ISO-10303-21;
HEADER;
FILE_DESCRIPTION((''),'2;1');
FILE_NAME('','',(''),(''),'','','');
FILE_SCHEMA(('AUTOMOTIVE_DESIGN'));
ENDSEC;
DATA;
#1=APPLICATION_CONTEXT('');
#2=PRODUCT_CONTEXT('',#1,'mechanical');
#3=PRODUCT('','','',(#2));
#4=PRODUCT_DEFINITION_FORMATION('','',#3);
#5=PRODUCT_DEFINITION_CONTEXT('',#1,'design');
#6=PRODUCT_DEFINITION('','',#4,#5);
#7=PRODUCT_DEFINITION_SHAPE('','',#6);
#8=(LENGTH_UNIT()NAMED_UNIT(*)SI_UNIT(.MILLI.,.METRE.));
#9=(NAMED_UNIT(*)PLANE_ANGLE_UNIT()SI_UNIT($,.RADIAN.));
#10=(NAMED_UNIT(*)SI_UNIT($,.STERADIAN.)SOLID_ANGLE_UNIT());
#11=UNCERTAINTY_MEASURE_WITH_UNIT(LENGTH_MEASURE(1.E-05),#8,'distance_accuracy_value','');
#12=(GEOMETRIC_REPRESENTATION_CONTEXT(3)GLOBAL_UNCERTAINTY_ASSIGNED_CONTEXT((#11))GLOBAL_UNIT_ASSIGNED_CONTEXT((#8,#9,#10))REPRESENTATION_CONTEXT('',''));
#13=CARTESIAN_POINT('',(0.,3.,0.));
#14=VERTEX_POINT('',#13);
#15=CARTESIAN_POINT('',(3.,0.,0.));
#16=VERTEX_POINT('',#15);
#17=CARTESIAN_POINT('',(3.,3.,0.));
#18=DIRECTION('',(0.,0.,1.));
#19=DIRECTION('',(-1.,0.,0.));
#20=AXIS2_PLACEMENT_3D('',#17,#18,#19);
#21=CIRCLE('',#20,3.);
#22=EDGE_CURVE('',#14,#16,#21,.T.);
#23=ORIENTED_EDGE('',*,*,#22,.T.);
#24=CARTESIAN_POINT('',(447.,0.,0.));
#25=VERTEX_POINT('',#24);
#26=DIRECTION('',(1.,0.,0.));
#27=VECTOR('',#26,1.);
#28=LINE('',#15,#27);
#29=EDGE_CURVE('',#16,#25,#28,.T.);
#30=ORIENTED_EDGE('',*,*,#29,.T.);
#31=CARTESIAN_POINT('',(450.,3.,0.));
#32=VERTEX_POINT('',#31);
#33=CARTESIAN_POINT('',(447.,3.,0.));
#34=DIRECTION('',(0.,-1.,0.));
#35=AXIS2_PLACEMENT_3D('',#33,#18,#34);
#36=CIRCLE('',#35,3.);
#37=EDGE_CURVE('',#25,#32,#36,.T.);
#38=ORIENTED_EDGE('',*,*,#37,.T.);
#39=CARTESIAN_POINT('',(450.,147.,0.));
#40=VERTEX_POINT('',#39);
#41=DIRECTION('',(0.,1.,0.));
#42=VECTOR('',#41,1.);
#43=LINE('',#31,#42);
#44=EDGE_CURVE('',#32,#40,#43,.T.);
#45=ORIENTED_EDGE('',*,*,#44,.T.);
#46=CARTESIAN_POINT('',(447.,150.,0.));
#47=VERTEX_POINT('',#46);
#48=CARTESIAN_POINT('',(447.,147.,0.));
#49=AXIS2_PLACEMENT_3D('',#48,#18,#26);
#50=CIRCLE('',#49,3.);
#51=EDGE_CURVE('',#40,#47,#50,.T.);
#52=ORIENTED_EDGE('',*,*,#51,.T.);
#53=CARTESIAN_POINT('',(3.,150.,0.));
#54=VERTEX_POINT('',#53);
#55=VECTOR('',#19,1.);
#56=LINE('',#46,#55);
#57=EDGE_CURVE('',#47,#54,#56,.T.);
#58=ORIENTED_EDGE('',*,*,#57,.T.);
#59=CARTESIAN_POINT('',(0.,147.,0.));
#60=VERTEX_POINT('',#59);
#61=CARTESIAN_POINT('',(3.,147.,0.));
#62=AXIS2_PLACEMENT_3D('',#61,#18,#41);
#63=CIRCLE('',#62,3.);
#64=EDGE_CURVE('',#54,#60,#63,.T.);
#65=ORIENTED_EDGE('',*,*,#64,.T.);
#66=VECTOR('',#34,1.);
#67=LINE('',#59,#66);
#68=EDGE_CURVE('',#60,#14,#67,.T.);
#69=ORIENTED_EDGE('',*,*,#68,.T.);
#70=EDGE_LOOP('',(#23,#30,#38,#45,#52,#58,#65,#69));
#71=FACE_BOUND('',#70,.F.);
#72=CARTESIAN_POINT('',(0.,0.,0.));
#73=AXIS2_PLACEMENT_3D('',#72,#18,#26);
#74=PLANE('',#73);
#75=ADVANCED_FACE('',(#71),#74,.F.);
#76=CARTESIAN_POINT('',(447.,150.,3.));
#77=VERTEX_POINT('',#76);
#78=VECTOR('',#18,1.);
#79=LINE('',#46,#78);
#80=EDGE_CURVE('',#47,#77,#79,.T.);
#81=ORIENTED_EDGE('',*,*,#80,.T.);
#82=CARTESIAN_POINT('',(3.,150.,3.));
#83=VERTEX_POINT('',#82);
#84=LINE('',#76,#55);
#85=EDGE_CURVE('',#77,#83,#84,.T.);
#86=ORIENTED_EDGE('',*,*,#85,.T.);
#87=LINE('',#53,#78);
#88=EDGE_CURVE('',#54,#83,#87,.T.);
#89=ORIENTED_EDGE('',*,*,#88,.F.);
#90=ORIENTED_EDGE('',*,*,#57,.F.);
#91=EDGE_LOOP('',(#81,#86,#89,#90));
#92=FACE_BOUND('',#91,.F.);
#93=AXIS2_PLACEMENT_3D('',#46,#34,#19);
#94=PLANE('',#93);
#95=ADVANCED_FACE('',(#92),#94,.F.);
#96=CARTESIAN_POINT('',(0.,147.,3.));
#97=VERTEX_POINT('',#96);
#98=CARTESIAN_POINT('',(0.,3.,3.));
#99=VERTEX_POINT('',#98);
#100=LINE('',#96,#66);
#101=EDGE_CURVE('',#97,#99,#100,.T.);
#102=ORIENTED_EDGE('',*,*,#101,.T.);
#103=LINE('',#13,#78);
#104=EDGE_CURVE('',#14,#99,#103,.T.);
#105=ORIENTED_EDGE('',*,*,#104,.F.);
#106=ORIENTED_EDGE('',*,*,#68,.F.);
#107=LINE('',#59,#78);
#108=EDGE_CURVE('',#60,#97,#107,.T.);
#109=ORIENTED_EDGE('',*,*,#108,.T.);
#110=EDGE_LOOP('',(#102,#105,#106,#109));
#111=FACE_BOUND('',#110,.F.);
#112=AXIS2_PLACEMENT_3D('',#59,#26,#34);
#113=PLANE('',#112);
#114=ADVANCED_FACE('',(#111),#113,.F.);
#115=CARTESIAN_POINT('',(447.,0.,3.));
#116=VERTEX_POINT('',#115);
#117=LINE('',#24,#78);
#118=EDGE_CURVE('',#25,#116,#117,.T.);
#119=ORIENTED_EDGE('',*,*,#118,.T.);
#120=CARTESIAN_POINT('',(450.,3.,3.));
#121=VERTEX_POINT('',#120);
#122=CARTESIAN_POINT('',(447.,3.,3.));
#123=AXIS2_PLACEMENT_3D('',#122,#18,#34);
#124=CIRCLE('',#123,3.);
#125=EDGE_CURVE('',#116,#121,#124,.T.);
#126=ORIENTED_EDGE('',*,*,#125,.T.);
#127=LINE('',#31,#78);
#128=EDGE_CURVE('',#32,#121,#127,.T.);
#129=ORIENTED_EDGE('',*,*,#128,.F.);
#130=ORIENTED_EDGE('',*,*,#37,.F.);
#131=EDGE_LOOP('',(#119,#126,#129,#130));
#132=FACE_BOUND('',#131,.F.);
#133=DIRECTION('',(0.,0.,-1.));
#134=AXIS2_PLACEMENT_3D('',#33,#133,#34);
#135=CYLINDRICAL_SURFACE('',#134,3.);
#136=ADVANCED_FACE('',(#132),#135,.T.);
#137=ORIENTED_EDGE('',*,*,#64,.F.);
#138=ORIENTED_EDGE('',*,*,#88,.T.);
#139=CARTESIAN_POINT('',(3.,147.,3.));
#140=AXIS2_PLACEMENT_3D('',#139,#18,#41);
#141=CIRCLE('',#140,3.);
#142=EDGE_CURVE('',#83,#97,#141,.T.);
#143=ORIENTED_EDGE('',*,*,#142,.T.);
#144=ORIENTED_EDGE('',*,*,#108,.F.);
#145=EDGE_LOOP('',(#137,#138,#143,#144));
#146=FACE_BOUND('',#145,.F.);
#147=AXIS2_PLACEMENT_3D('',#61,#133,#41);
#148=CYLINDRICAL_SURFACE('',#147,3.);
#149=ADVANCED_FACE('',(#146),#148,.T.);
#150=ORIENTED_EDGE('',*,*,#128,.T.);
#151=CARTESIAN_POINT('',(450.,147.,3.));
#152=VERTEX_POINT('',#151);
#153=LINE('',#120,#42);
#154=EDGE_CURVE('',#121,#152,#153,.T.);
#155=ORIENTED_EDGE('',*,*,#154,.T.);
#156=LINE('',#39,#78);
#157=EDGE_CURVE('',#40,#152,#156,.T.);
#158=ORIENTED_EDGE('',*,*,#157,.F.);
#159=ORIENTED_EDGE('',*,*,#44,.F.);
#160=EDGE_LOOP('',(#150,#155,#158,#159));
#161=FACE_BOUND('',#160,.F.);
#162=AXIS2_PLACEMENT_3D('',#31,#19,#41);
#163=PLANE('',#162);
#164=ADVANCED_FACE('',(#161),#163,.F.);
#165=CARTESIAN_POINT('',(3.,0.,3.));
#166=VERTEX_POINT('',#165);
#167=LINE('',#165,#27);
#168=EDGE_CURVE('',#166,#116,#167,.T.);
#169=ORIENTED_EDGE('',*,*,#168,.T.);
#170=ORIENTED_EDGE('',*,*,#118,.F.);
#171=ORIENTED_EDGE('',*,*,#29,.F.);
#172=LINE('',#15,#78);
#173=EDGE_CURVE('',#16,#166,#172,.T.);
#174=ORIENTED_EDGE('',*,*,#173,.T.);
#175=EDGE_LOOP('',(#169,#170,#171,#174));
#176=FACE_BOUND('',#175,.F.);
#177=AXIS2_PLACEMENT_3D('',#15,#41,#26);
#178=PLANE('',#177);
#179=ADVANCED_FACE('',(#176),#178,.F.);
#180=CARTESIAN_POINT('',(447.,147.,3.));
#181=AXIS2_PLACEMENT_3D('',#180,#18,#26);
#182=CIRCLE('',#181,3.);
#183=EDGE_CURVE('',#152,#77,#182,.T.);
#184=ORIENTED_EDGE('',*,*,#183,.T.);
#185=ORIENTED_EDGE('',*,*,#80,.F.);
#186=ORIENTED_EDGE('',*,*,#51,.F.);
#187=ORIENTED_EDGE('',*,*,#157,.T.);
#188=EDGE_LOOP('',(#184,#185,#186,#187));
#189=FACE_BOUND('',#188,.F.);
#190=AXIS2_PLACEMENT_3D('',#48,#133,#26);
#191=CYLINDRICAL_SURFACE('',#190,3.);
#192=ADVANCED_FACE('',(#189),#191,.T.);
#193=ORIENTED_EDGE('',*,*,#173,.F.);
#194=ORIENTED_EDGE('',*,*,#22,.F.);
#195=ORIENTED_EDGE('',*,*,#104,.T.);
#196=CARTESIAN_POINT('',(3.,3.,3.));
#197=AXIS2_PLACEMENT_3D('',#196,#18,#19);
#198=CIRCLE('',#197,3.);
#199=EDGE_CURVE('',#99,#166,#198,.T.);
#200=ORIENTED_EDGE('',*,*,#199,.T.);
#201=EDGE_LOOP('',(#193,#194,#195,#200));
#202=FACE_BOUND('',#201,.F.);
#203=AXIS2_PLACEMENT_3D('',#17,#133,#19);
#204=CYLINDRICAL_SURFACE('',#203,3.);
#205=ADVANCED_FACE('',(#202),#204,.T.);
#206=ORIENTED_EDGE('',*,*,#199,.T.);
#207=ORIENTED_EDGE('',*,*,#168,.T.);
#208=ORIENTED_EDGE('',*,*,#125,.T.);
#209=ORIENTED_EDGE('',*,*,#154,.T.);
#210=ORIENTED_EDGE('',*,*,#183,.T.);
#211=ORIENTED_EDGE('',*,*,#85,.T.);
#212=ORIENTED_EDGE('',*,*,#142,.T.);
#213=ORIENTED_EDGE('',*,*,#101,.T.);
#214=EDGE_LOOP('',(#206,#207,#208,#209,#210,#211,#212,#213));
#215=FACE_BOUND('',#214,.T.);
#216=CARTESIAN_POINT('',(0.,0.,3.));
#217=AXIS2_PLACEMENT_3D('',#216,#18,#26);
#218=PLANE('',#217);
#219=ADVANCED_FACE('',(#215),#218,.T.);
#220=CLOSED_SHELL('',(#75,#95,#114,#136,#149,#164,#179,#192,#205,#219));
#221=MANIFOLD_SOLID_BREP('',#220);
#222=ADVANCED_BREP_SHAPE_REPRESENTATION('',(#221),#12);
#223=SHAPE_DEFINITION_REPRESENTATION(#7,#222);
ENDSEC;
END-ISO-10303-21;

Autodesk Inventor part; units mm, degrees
ref_plane "YZ Plane" through (0, 0, 0) normal (1, 0, 0) x (0, 1, 0)
ref_plane "XZ Plane" through (0, 0, 0) normal (0, 1, 0) x (-1, 0, 0)
ref_plane "XY Plane" through (0, 0, 0) normal (0, 0, 1) x (1, 0, 0)
sketch "Sketch1" plane through (0, 0, 0) normal (0, 0, 1) x (1, 0, 0)
  line L0 (3, 0) -> (447, 0)
  line L1 (450, 3) -> (450, 147)
  line L2 (447, 150) -> (3, 150)
  line L3 (0, 147) -> (0, 3)
  arc A0 (3, 150) -> (0, 147) centre (3, 147) ccw
  arc A1 (450, 147) -> (447, 150) centre (447, 147) ccw
  arc A2 (447, 0) -> (450, 3) centre (447, 3) ccw
  arc A3 (0, 3) -> (3, 0) centre (3, 3) ccw
  point P0 (0, 0)
  point P1 (0, 150)
  point P2 (450, 150)
  point P3 (450, 0)
  point P4 (0, 0)
  dimension "d0" = 450
  dimension "d1" = 150
  dimension "d6" = 3
extrude "Extrusion1" add sketch "Sketch1" along normal blind 3
sketch "Sketch2" plane through (0, 0, 3) normal (0, 0, 1) x (1, 0, 0)
  circle A0 centre (74.3304, 73.386) radius 64.4941
  circle A1 centre (74.1358, 19.1374) radius 3.759
  circle A2 centre (74.3304, 73.386) radius 46.1652
  arc A3 (60.0832, 47.8007) -> (66.8292, 50.9644) centre (63.3353, 49.6403) ccw
  arc A4 (102.5659, 60.1821) -> (99.6639, 66.6182) centre (100.186, 62.9813) ccw
  arc A5 (80.1151, 97.5331) -> (86.506, 100.628) centre (82.7963, 100.1425) ccw
  arc A6 (44.8092, 88.9664) -> (47.8294, 82.593) centre (47.2318, 86.2121) ccw
  line L0 (73.0471, 70.515) -> (72.9845, 77.892)
  line L1 (72.9845, 77.892) -> (69.4651, 77.9045)
  line L2 (69.4651, 77.9045) -> (69.5403, 70.4023)
  line L3 (69.5403, 70.4023) -> (62.2134, 70.4148)
  line L4 (62.2134, 70.4148) -> (62.2385, 67.2712)
  line L5 (62.2385, 67.2712) -> (84.0562, 67.2712)
  line L6 (84.0562, 67.2712) -> (84.0562, 70.3898)
  line L7 (84.0562, 70.3898) -> (73.0471, 70.515)
  line L8 (81.7131, 85.3553) -> (64.4794, 85.3954)
  line L9 (64.4794, 85.3954) -> (64.4794, 82.4296)
  line L10 (64.4794, 82.4296) -> (77.8656, 82.4096)
  arc A7 (80.1926, 72.9483) -> (81.7131, 85.3553) centre (16.1968, 87.088) ccw
  arc A8 (76.6977, 73.1086) -> (77.8656, 82.4096) centre (28.8399, 83.8415) ccw
  line L11 (76.6977, 73.1086) -> (80.1926, 72.9483)
  line L12 (22.8218, 44.3119) -> (29.3747, 47.7587)
  line L13 (29.3747, 47.7587) -> (28.6132, 49.3017)
  line L14 (28.6132, 49.3017) -> (25.0462, 47.5182)
  line L15 (25.0462, 47.5182) -> (27.6313, 51.3056)
  line L16 (27.6313, 51.3056) -> (26.8297, 52.8286)
  line L17 (26.8297, 52.8286) -> (20.1165, 49.4821)
  line L18 (20.1165, 49.4821) -> (20.9582, 47.8188)
  line L19 (20.9582, 47.8188) -> (24.3248, 49.5221)
  line L20 (24.3248, 49.5221) -> (21.9, 45.895)
  line L21 (21.9, 45.895) -> (22.8218, 44.3119)
  arc A9 (20.5574, 56.2553) -> (21.4191, 53.8706) centre (21.1012, 55.1038) ccw
  arc A10 (23.0824, 54.552) -> (22.2407, 56.7763) centre (22.685, 55.673) ccw
  arc A11 (21.4191, 53.8706) -> (23.0824, 54.552) centre (20.078, 59.5153) ccw
  arc A12 (24.3636, 53.0797) -> (21.518, 58.5304) centre (22.6001, 55.6272) ccw
  arc A13 (22.1192, 52.1379) -> (24.3636, 53.0797) centre (20.1363, 60.0082) ccw
  line L22 (19.9149, 57.9493) -> (20.5574, 56.2553)
  line L23 (21.518, 58.5304) -> (22.2407, 56.7763)
  line L24 (15.5802, 64.2799) -> (16.032, 62.5112)
  line L25 (16.032, 62.5112) -> (18.4166, 62.9721)
  line L26 (18.4166, 62.9721) -> (18.9176, 61.0684)
  line L27 (18.9176, 61.0684) -> (16.4127, 60.6075)
  line L28 (16.4127, 60.6075) -> (16.8536, 58.7639)
  line L29 (16.8536, 58.7639) -> (24.0877, 60.2668)
  line L30 (24.0877, 60.2668) -> (23.727, 62.0503)
  line L31 (23.727, 62.0503) -> (20.6811, 61.4892)
  line L32 (20.6811, 61.4892) -> (20.3604, 63.3729)
  line L33 (20.3604, 63.3729) -> (23.2661, 64.0342)
  line L34 (23.2661, 64.0342) -> (22.8854, 65.8177)
  line L35 (22.8854, 65.8177) -> (15.5802, 64.2799)
  line L36 (14.9282, 71.5177) -> (15.4291, 66.3877)
  line L37 (15.4291, 66.3877) -> (22.8036, 66.9087)
  line L38 (22.8036, 66.9087) -> (22.3627, 72.3593)
  line L39 (22.3627, 72.3593) -> (20.5191, 72.2191)
  line L40 (20.5191, 72.2191) -> (20.8397, 68.6721)
  line L41 (20.8397, 68.6721) -> (19.6374, 68.632)
  line L42 (19.6374, 68.632) -> (19.4169, 71.5979)
  line L43 (19.4169, 71.5979) -> (17.6334, 71.4776)
  line L44 (17.6334, 71.4776) -> (17.8739, 68.4717)
  line L45 (17.8739, 68.4717) -> (16.9922, 68.4317)
  line L46 (16.9922, 68.4317) -> (16.6716, 71.678)
  line L47 (16.6716, 71.678) -> (14.9282, 71.5177)
  ellipse E0 centre (18.7456, 76.2269) end of major axis (16.6515, 76.3071) minor radius 1.427
  ellipse E1 centre (18.7256, 76.1868) end of major axis (14.828, 76.3872) minor radius 3.5212
  line L48 (15.4067, 81.6515) -> (15.7474, 83.3549)
  line L49 (15.7474, 83.3549) -> (19.8153, 84.6975)
  line L50 (19.8153, 84.6975) -> (16.088, 85.4389)
  line L51 (16.088, 85.4389) -> (16.2884, 87.1623)
  line L52 (16.2884, 87.1623) -> (23.7029, 85.8598)
  line L53 (23.7029, 85.8598) -> (23.5025, 84.2566)
  line L54 (23.5025, 84.2566) -> (19.0338, 82.8138)
  line L55 (19.0338, 82.8138) -> (23.0216, 82.0723)
  line L56 (23.0216, 82.0723) -> (22.7811, 80.2488)
  line L57 (22.7811, 80.2488) -> (15.4067, 81.6515)
  line L58 (19.7752, 97.1418) -> (17.8715, 92.2723)
  line L59 (17.8715, 92.2723) -> (24.745, 89.7073)
  line L60 (24.745, 89.7073) -> (26.6487, 94.6169)
  line L61 (26.6487, 94.6169) -> (25.1658, 95.2581)
  line L62 (25.1658, 95.2581) -> (23.9434, 92.0719)
  line L63 (23.9434, 92.0719) -> (22.6609, 92.5529)
  line L64 (22.6609, 92.5529) -> (23.743, 95.3183)
  line L65 (23.743, 95.3183) -> (22.1599, 95.9395)
  line L66 (22.1599, 95.9395) -> (21.0778, 93.0939)
  line L67 (21.0778, 93.0939) -> (20.0758, 93.4747)
  line L68 (20.0758, 93.4747) -> (21.2782, 96.5206)
  line L69 (21.2782, 96.5206) -> (19.7752, 97.1418)
  line L70 (21.3984, 100.3882) -> (20.3764, 98.765)
  line L71 (20.3764, 98.765) -> (27.0094, 95.3383)
  line L72 (27.0094, 95.3383) -> (29.3339, 99.9273)
  line L73 (29.3339, 99.9273) -> (27.7909, 100.6888)
  line L74 (27.7909, 100.6888) -> (26.3681, 97.8833)
  line L75 (26.3681, 97.8833) -> (21.3984, 100.3882)
  line L76 (29.7347, 100.3882) -> (32.7206, 104.917)
  line L77 (32.7206, 104.917) -> (31.2577, 105.9591)
  line L78 (31.2577, 105.9591) -> (29.2939, 103.0334)
  line L79 (29.2939, 103.0334) -> (28.2518, 103.6746)
  line L80 (28.2518, 103.6746) -> (29.9752, 106.2998)
  line L81 (29.9752, 106.2998) -> (28.5725, 107.1815)
  line L82 (28.5725, 107.1815) -> (26.789, 104.6365)
  line L83 (26.789, 104.6365) -> (25.9674, 105.1976)
  line L84 (25.9674, 105.1976) -> (27.9312, 107.943)
  line L85 (27.9312, 107.943) -> (26.4884, 108.9249)
  line L86 (26.4884, 108.9249) -> (23.4625, 104.6165)
  line L87 (23.4625, 104.6165) -> (29.7347, 100.3882)
  line L88 (32.42, 111.7103) -> (33.6223, 113.073)
  line L89 (34.8848, 112.0109) -> (33.6223, 110.6082)
  arc A14 (30.5404, 107.4866) -> (34.8848, 112.0109) centre (32.7697, 109.6939) ccw
  arc A15 (33.6223, 113.073) -> (29.2378, 108.8017) centre (31.6861, 110.6746) ccw
  arc A16 (29.2378, 108.8017) -> (30.5404, 107.4866) centre (52.0371, 130.0812) ccw
  arc A17 (32.42, 111.7103) -> (30.7157, 109.9915) centre (31.6602, 110.7594) ccw
  arc A18 (32.0912, 108.6533) -> (33.6223, 110.6082) centre (32.9043, 109.5936) ccw
  arc A19 (30.7157, 109.9915) -> (32.0912, 108.6533) centre (34.3325, 112.3331) ccw
  line L90 (36.7024, 119.6663) -> (37.8847, 118.4238)
  line L91 (37.8847, 118.4238) -> (36.502, 117.1413)
  line L92 (36.502, 117.1413) -> (40.2293, 112.913)
  line L93 (40.2293, 112.913) -> (38.8666, 111.6506)
  line L94 (38.8666, 111.6506) -> (35.0391, 115.8588)
  line L95 (35.0391, 115.8588) -> (33.5362, 114.5563)
  line L96 (33.5362, 114.5563) -> (32.3739, 115.8588)
  line L97 (32.3739, 115.8588) -> (36.7024, 119.6663)
  line L98 (38.0651, 120.7283) -> (42.2533, 114.6565)
  line L99 (42.2533, 114.6565) -> (43.636, 115.6584)
  line L100 (43.636, 115.6584) -> (42.2332, 117.8026)
  line L101 (42.2332, 117.8026) -> (43.5558, 118.7044)
  line L102 (38.0651, 120.7283) -> (41.2914, 122.9527)
  line L103 (45.4555, 116.9645) -> (47.0226, 118.023)
  line L104 (47.0226, 118.023) -> (46.7462, 118.4132)
  line L105 (46.7462, 118.4132) -> (46.3989, 118.4328)
  line L106 (46.3989, 118.4328) -> (45.4247, 119.8307)
  line L107 (45.4555, 116.9645) -> (44.134, 118.5977)
  arc A20 (44.134, 118.5977) -> (43.5558, 118.7044) centre (43.8033, 118.4259) ccw
  arc A21 (45.4247, 119.8307) -> (44.2896, 120.3317) centre (44.5184, 119.3138) ccw
  arc A22 (44.2896, 120.3317) -> (41.2914, 122.9527) centre (42.2418, 121.0145) ccw
  line L108 (40.5088, 120.363) -> (41.2524, 119.2828)
  line L109 (41.2524, 119.2828) -> (42.5988, 120.2221)
  line L110 (41.8787, 121.3102) -> (40.5088, 120.363)
  arc A23 (42.5988, 120.2221) -> (41.8787, 121.3102) centre (42.1607, 120.7145) ccw
  ellipse E2 centre (48.8933, 123.1148) end of major axis (47.8713, 124.9484) minor radius 1.3869
  ellipse E3 centre (48.9333, 123.1048) end of major axis (47.0296, 126.4514) minor radius 3.3442
  line L111 (51.8591, 128.6156) -> (53.5824, 129.1767)
  line L112 (53.5824, 129.1767) -> (56.949, 126.3311)
  line L113 (56.949, 126.3311) -> (55.6465, 130.0384)
  line L114 (55.6465, 130.0384) -> (57.2296, 130.4392)
  line L115 (57.2296, 130.4392) -> (59.7144, 123.5256)
  line L116 (59.7144, 123.5256) -> (58.0913, 122.9645)
  line L117 (58.0913, 122.9645) -> (54.6846, 126.0305)
  line L118 (54.6846, 126.0305) -> (55.927, 122.2231)
  line L119 (55.927, 122.2231) -> (54.2838, 121.682)
  line L120 (54.2838, 121.682) -> (51.8591, 128.6156)
  line L121 (59.1333, 130.9602) -> (60.9769, 131.381)
  line L122 (60.9769, 131.381) -> (62.7003, 124.2671)
  line L123 (62.7003, 124.2671) -> (60.9969, 123.8262)
  line L124 (60.9969, 123.8262) -> (59.1333, 130.9602)
  arc A24 (65.2629, 127.4613) -> (67.7678, 127.9022) centre (66.5191, 127.6602) ccw
  arc A25 (67.4947, 129.7232) -> (65.0149, 129.2974) centre (66.2808, 129.3592) ccw
  arc A26 (69.2357, 129.9737) -> (63.1362, 128.9091) centre (66.2187, 129.2539) ccw
  arc A27 (63.4994, 127.1432) -> (69.4235, 128.0199) centre (66.453, 127.6388) ccw
  arc A28 (63.1362, 128.9091) -> (63.4994, 127.1432) centre (67.9042, 128.9695) ccw
  arc A29 (65.0149, 129.2974) -> (65.2629, 127.4613) centre (79.0489, 130.2581) ccw
  line L125 (67.4947, 129.7232) -> (69.2357, 129.9737)
  line L126 (67.7678, 127.9022) -> (69.4235, 128.0199)
  line L127 (73.8923, 132.8018) -> (76.2469, 132.7391)
  line L128 (76.2469, 132.7391) -> (76.9608, 128.5434)
  line L129 (76.9608, 128.5434) -> (78.2132, 132.5638)
  line L130 (78.2132, 132.5638) -> (80.4802, 132.426)
  line L131 (80.4802, 132.426) -> (80.0543, 125.1994)
  line L132 (80.0543, 125.1994) -> (78.4136, 125.2745)
  line L133 (78.4136, 125.2745) -> (78.6015, 128.08)
  line L134 (78.6015, 128.08) -> (77.612, 125.3998)
  line L135 (77.612, 125.3998) -> (75.9588, 125.4123)
  line L136 (75.9588, 125.4123) -> (75.3576, 128.5309)
  line L137 (75.3576, 128.5309) -> (75.1322, 125.4874)
  line L138 (75.1322, 125.4874) -> (73.4414, 125.6002)
  line L139 (73.4414, 125.6002) -> (73.8923, 132.8018)
  line L140 (81.0939, 125.0491) -> (86.279, 123.997)
  line L141 (86.279, 123.997) -> (86.6046, 125.5751)
  line L142 (86.6046, 125.5751) -> (83.0978, 126.2264)
  line L143 (83.0978, 126.2264) -> (83.3984, 127.6041)
  line L144 (83.3984, 127.6041) -> (86.5044, 127.053)
  line L145 (86.5044, 127.053) -> (86.7925, 128.5935)
  line L146 (86.7925, 128.5935) -> (83.7365, 129.1571)
  line L147 (83.7365, 129.1571) -> (83.8994, 130.2342)
  line L148 (83.8994, 130.2342) -> (87.1682, 129.5579)
  line L149 (87.1682, 129.5579) -> (87.5064, 131.1235)
  line L150 (87.5064, 131.1235) -> (82.4841, 132.163)
  line L151 (82.4841, 132.163) -> (81.0939, 125.0491)
  line L152 (89.2849, 130.6976) -> (90.9757, 130.1841)
  line L153 (90.9757, 130.1841) -> (88.9092, 123.208)
  line L154 (88.9092, 123.208) -> (87.1682, 123.6589)
  line L155 (87.1682, 123.6589) -> (89.2849, 130.6976)
  line L156 (90.9953, 125.1721) -> (92.4983, 124.611)
  line L157 (95.3038, 126.0338) -> (96.8869, 125.3725)
  arc A30 (90.9953, 125.1721) -> (96.1053, 122.8275) centre (93.6122, 124.1346) ccw
  arc A31 (96.8869, 125.3725) -> (91.857, 127.4967) centre (94.3068, 126.2803) ccw
  arc A32 (91.857, 127.4967) -> (93.4401, 124.6311) centre (94.2672, 126.9581) ccw
  arc A33 (96.1053, 122.8275) -> (94.9631, 125.6731) centre (93.9846, 123.6283) ccw
  arc A34 (95.3038, 126.0338) -> (93.5403, 127.176) centre (94.2317, 126.311) ccw
  arc A35 (93.5403, 127.176) -> (93.8409, 126.4146) centre (93.9888, 126.913) ccw
  arc A36 (93.8409, 126.4146) -> (94.9631, 125.6731) centre (103.26, 139.4505) ccw
  line L158 (93.4401, 124.6311) -> (94.4822, 123.8896)
  arc A37 (94.2417, 123.048) -> (94.4822, 123.8896) centre (94.0571, 123.5559) ccw
  arc A38 (92.8059, 123.2884) -> (94.2417, 123.048) centre (93.781, 124.7043) ccw
  arc A39 (92.4983, 124.611) -> (92.8059, 123.2884) centre (93.1362, 124.0623) ccw
  line L159 (100.1226, 124.5633) -> (97.4935, 119.6577)
  line L160 (97.4935, 119.6577) -> (99.0966, 118.7279)
  line L161 (99.0966, 118.7279) -> (101.854, 123.7297)
  line L162 (101.854, 123.7297) -> (103.5854, 122.7999)
  line L163 (103.5854, 122.7999) -> (104.419, 124.1786)
  line L164 (104.419, 124.1786) -> (99.3852, 127.0322)
  line L165 (99.3852, 127.0322) -> (98.4554, 125.5893)
  line L166 (98.4554, 125.5893) -> (100.1226, 124.5633)
  line L167 (101.5053, 117.4294) -> (105.7536, 123.4211)
  line L168 (105.7536, 123.4211) -> (109.9218, 120.4353)
  line L169 (109.9218, 120.4353) -> (108.9399, 119.0125)
  line L170 (108.9399, 119.0125) -> (106.1945, 120.8962)
  line L171 (106.1945, 120.8962) -> (105.6935, 120.1948)
  line L172 (105.6935, 120.1948) -> (108.2185, 118.3512)
  line L173 (108.2185, 118.3512) -> (107.2566, 117.0486)
  line L174 (107.2566, 117.0486) -> (104.6715, 118.752)
  line L175 (104.6715, 118.752) -> (103.9501, 117.73)
  line L176 (103.9501, 117.73) -> (106.7957, 115.6659)
  line L177 (106.7957, 115.6659) -> (105.7136, 114.2832)
  line L178 (105.7136, 114.2832) -> (101.5053, 117.4294)
  line L179 (111.3646, 119.1928) -> (106.3147, 113.7422)
  line L180 (106.3147, 113.7422) -> (107.6774, 112.5498)
  line L181 (107.6774, 112.5498) -> (109.501, 114.5037)
  line L182 (109.501, 114.5037) -> (110.7033, 113.5017)
  line L183 (111.3646, 119.1928) -> (114.1864, 116.6281)
  line L184 (112.7774, 115.5656) -> (111.6374, 116.6713)
  line L185 (111.6374, 116.6713) -> (110.8351, 115.7515)
  line L186 (110.8351, 115.7515) -> (111.8772, 114.7094)
  line L187 (110.6791, 112.9268) -> (109.2764, 111.2235)
  line L188 (109.2764, 111.2235) -> (110.7621, 109.8192)
  line L189 (110.7621, 109.8192) -> (111.13, 110.1949)
  line L190 (111.13, 110.1949) -> (111.0282, 110.5706)
  line L191 (111.0282, 110.5706) -> (112.2729, 111.9014)
  arc A40 (110.6791, 112.9268) -> (110.7033, 113.5017) centre (110.3532, 113.2285) ccw
  arc A41 (112.2729, 111.9014) -> (112.4178, 113.0193) centre (111.1593, 112.6141) ccw
  arc A42 (111.8772, 114.7094) -> (112.7774, 115.5656) centre (112.2379, 115.2315) ccw
  arc A43 (112.4178, 113.0193) -> (114.1864, 116.6281) centre (112.538, 115.1982) ccw
  line L192 (113.3248, 107.0457) -> (119.0961, 111.4343)
  line L193 (119.0961, 111.4343) -> (120.2784, 109.9514)
  line L194 (120.2784, 109.9514) -> (118.2144, 108.4284)
  line L195 (118.2144, 108.4284) -> (119.4368, 106.8052)
  line L196 (119.4368, 106.8052) -> (121.4607, 108.3081)
  line L197 (121.4607, 108.3081) -> (122.623, 106.8052)
  line L198 (122.623, 106.8052) -> (116.6714, 102.3966)
  line L199 (116.6714, 102.3966) -> (115.5893, 103.8594)
  line L200 (115.5893, 103.8594) -> (117.9739, 105.683)
  line L201 (117.9739, 105.683) -> (116.8116, 107.3262)
  line L202 (116.8116, 107.3262) -> (114.3268, 105.5227)
  line L203 (114.3268, 105.5227) -> (113.3248, 107.0457)
  line L204 (117.3727, 101.3545) -> (123.5448, 105.162)
  line L205 (123.5448, 105.162) -> (124.5468, 103.5388)
  line L206 (124.5468, 103.5388) -> (118.2745, 99.7314)
  line L207 (118.2745, 99.7314) -> (117.3727, 101.3545)
  line L208 (123.2155, 95.6967) -> (122.5542, 96.8791)
  line L209 (122.5542, 96.8791) -> (124.0572, 97.6606)
  line L210 (124.0572, 97.6606) -> (125.3998, 94.9553)
  line L211 (125.3998, 94.9553) -> (121.6926, 93.0315)
  line L212 (121.6926, 93.0315) -> (120.9912, 94.4142)
  line L213 (120.9912, 94.4142) -> (121.3118, 94.6948)
  arc A44 (121.9731, 98.0213) -> (123.2155, 95.6967) centre (122.9571, 97.0529) ccw
  arc A45 (124.0271, 99.131) -> (121.9731, 98.0213) centre (124.5431, 95.72) ccw
  arc A46 (125.2044, 96.7012) -> (124.0271, 99.131) centre (124.3539, 97.7892) ccw
  line L214 (125.2044, 96.7012) -> (125.981, 95.0354)
  arc A47 (125.981, 95.0354) -> (122.8498, 100.7216) centre (124.119, 97.7153) ccw
  arc A48 (122.8498, 100.7216) -> (120.1946, 98.8178) centre (124.2192, 96.0082) ccw
  arc A49 (120.1946, 98.8178) -> (121.3118, 94.6948) centre (122.701, 97.2841) ccw
  line L215 (122.0117, 92.1357) -> (128.8731, 94.348)
  line L216 (128.8731, 94.348) -> (129.4823, 92.7128)
  line L217 (129.4823, 92.7128) -> (126.9494, 91.8792)
  line L218 (126.9494, 91.8792) -> (127.7509, 89.6989)
  line L219 (127.7509, 89.6989) -> (130.0595, 90.5005)
  line L220 (130.0595, 90.5005) -> (130.6045, 88.9615)
  line L221 (130.6045, 88.9615) -> (123.6469, 86.7492)
  line L222 (123.6469, 86.7492) -> (123.2622, 88.3523)
  line L223 (123.2622, 88.3523) -> (126.0837, 89.3462)
  line L224 (126.0837, 89.3462) -> (125.5386, 91.3662)
  line L225 (125.5386, 91.3662) -> (122.4606, 90.4684)
  line L226 (122.4606, 90.4684) -> (122.0117, 92.1357)
  line L227 (127.1227, 83.2797) -> (127.2229, 81.6766)
  line L228 (129.7879, 79.7628) -> (129.9758, 78.1847)
  arc A50 (127.1227, 83.2797) -> (126.8547, 77.5109) centre (127.4108, 80.3757) ccw
  arc A51 (129.9758, 78.1847) -> (130.081, 83.6629) centre (129.6354, 80.9314) ccw
  arc A52 (130.081, 83.6629) -> (127.8241, 81.7918) centre (129.9946, 81.4705) ccw
  arc A53 (127.2229, 81.6766) -> (126.2836, 80.5769) centre (127.3612, 80.6074) ccw
  arc A54 (126.2836, 80.5769) -> (126.747, 79.4622) centre (127.8549, 80.5765) ccw
  arc A55 (126.747, 79.4622) -> (127.5486, 79.7252) centre (127.0889, 79.7732) ccw
  arc A56 (127.8241, 81.7918) -> (127.5486, 79.7252) centre (778.3659, -5.9988) ccw
  arc A57 (129.7879, 79.7628) -> (130.2163, 81.8419) centre (129.4879, 80.9083) ccw
  arc A58 (130.2163, 81.8419) -> (129.5775, 81.5037) centre (130.0077, 81.4634) ccw
  arc A59 (129.1642, 78.8861) -> (129.5775, 81.5037) centre (45.9299, 93.3698) ccw
  arc A60 (126.8547, 77.5109) -> (129.1642, 78.8861) centre (127.0095, 79.8778) ccw
  ellipse E4 centre (128.9018, 73.4046) end of major axis (126.7676, 73.4246) minor radius 1.3445 (129.8941, 72.2086) -> (128.0696, 72.1712) ccw
  ellipse E5 centre (128.9118, 73.4747) end of major axis (125.0443, 73.4847) minor radius 3.1768 (129.9327, 70.4097) -> (128.0695, 70.3749) ccw
  line L229 (128.0702, 70.3786) -> (128.0695, 70.3749)
  line L230 (129.8941, 72.2086) -> (129.9327, 70.4097)
  line L231 (128.0702, 72.1711) -> (128.0702, 70.3786)
  line L232 (128.0696, 72.1712) -> (128.0702, 72.1711)
  line L233 (125.2047, 69.6146) -> (132.4362, 68.5719)
  line L234 (132.4362, 68.5719) -> (132.2176, 66.7556)
  line L235 (132.2176, 66.7556) -> (129.5436, 67.0415)
  line L236 (129.5436, 67.0415) -> (129.325, 65.0402)
  line L237 (129.325, 65.0402) -> (131.9653, 64.7039)
  line L238 (131.9653, 64.7039) -> (131.6962, 62.9212)
  line L239 (131.6962, 62.9212) -> (124.2629, 63.9303)
  line L240 (124.2629, 63.9303) -> (124.5488, 65.797)
  line L241 (124.5488, 65.797) -> (127.6937, 65.3766)
  line L242 (127.6937, 65.3766) -> (127.9291, 67.2938)
  line L243 (127.9291, 67.2938) -> (124.8683, 67.6469)
  line L244 (124.8683, 67.6469) -> (125.2047, 69.6146)
  ellipse E6 centre (126.872, 58.825) end of major axis (124.9296, 59.4724) minor radius 1.5069
  ellipse E7 centre (126.8552, 58.7829) end of major axis (123.2647, 60.2292) minor radius 3.2341
  ellipse E8 centre (124.2064, 51.5934) end of major axis (122.3397, 52.4763) minor radius 1.4344
  ellipse E9 centre (124.2989, 51.5682) end of major axis (120.9606, 53.5022) minor radius 3.3298
  line L245 (119.6993, 46.8088) -> (118.0344, 44.1012)
  line L246 (118.0344, 44.1012) -> (116.4703, 45.0598)
  line L247 (116.4703, 45.0598) -> (119.0939, 49.3483)
  line L248 (119.0939, 49.3483) -> (125.5518, 45.6484)
  line L249 (125.5518, 45.6484) -> (124.5092, 44.0003)
  line L250 (124.5092, 44.0003) -> (119.6993, 46.8088)
  arc A61 (66.937, 40.1205) -> (61.7975, 40.0936) centre (64.3667, 40.2125) ccw
  arc A62 (65.6866, 40.3787) -> (62.9748, 40.0633) centre (64.3345, 40.1883) ccw
  arc A63 (65.119, 39.1384) -> (65.6866, 40.3787) centre (64.3203, 40.2539) ccw
  line L251 (61.7975, 40.0936) -> (62.9748, 40.0633)
  line L252 (65.119, 39.1384) -> (61.7256, 35.7606)
  line L253 (61.7256, 35.7606) -> (61.7256, 34.6674)
  line L254 (61.7256, 34.6674) -> (66.8718, 34.6674)
  line L255 (66.8718, 34.6674) -> (66.8718, 35.8783)
  line L256 (66.8718, 35.8783) -> (63.4242, 35.8951)
  line L257 (63.4242, 35.8951) -> (66.2664, 38.6364)
  arc A64 (66.2664, 38.6364) -> (66.937, 40.1205) centre (64.8521, 40.169) ccw
  arc A65 (72.6467, 40.4747) -> (69.7982, 40.4852) centre (71.2209, 40.0648) ccw
  arc A66 (73.971, 40.296) -> (68.3687, 40.4432) centre (71.1599, 39.9911) ccw
  arc A67 (69.8087, 36.7223) -> (72.7413, 37.0376) centre (71.2359, 37.243) ccw
  arc A68 (68.3582, 36.8905) -> (74.0236, 37.2689) centre (71.1847, 37.173) ccw
  line L258 (68.3687, 40.4432) -> (68.3582, 36.8905)
  line L259 (69.8087, 36.7223) -> (69.7982, 40.4852)
  line L260 (72.6467, 40.4747) -> (72.7413, 37.0376)
  line L261 (74.0236, 37.2689) -> (73.971, 40.296)
  line L262 (76.2507, 42.6737) -> (78.9247, 42.6737)
  line L263 (78.9247, 42.6737) -> (78.9247, 34.7358)
  line L264 (78.9247, 34.7358) -> (77.6742, 34.7359)
  line L265 (77.6742, 34.7359) -> (77.6633, 41.6142)
  line L266 (77.6633, 41.6142) -> (76.2528, 41.6191)
  line L267 (76.2528, 41.6191) -> (76.2507, 42.6737)
  arc A69 (86.5806, 40.4747) -> (83.7321, 40.4852) centre (85.1548, 40.0648) ccw
  arc A70 (87.905, 40.296) -> (82.3026, 40.4432) centre (85.0938, 39.9911) ccw
  arc A71 (83.7426, 36.7223) -> (86.6752, 37.0376) centre (85.1699, 37.243) ccw
  arc A72 (82.2921, 36.8905) -> (87.9575, 37.2689) centre (85.1186, 37.173) ccw
  line L268 (82.3026, 40.4432) -> (82.2921, 36.8905)
  line L269 (83.7426, 36.7223) -> (83.7321, 40.4852)
  line L270 (86.5806, 40.4747) -> (86.6752, 37.0376)
  line L271 (87.9575, 37.2689) -> (87.905, 40.296)
  line L272 (62.4142, 114.1934) -> (65.0882, 114.1934)
  line L273 (65.0882, 114.1934) -> (65.0882, 106.2555)
  line L274 (65.0882, 106.2555) -> (63.8378, 106.2556)
  line L275 (63.8378, 106.2556) -> (63.8269, 113.1339)
  line L276 (63.8269, 113.1339) -> (62.4164, 113.1388)
  line L277 (62.4164, 113.1388) -> (62.4142, 114.1934)
  circle A73 centre (71.262, 111.5976) radius 1.6109
  arc A74 (73.6726, 110.1228) -> (71.3999, 108.7522) centre (71.2213, 111.6179) ccw
  line L278 (69.6746, 106.3394) -> (71.2772, 106.3522)
  line L279 (71.2772, 106.3522) -> (73.6726, 110.1228)
  line L280 (71.3999, 108.7522) -> (69.6746, 106.3394)
  line L281 (77.0239, 111.4154) -> (77.3696, 113.0687)
  line L282 (77.3696, 113.0687) -> (80.2402, 113.0837)
  line L283 (80.2402, 113.0837) -> (80.2214, 114.2579)
  line L284 (80.2214, 114.2579) -> (76.4359, 114.2297)
  line L285 (76.4359, 114.2297) -> (75.6927, 110.168)
  arc A75 (76.506, 108.7627) -> (76.7496, 109.8583) centre (78.1408, 108.9741) ccw
  arc A76 (75.369, 108.7627) -> (77.0239, 111.4154) centre (78.184, 108.8491) ccw
  line L286 (76.7496, 109.8583) -> (75.6927, 110.168)
  line L287 (76.506, 108.7627) -> (75.369, 108.7627)
  arc A77 (87.675, 111.5415) -> (82.5356, 111.5146) centre (85.1047, 111.6335) ccw
  arc A78 (86.4246, 111.7997) -> (83.7128, 111.4843) centre (85.0725, 111.6093) ccw
  arc A79 (85.857, 110.5594) -> (86.4246, 111.7997) centre (85.0583, 111.6749) ccw
  line L288 (82.5356, 111.5146) -> (83.7128, 111.4843)
  line L289 (85.857, 110.5594) -> (82.4637, 107.1816)
  line L290 (82.4637, 107.1816) -> (82.4637, 106.0884)
  line L291 (82.4637, 106.0884) -> (87.6098, 106.0884)
  line L292 (87.6098, 106.0884) -> (87.6098, 107.2993)
  line L293 (87.6098, 107.2993) -> (84.1622, 107.3161)
  line L294 (84.1622, 107.3161) -> (87.0044, 110.0574)
  arc A80 (87.0044, 110.0574) -> (87.675, 111.5415) centre (85.5902, 111.59) ccw
  ellipse E10 centre (73.5541, 74.9499) end of major axis (101.9248, 101.7351) minor radius 15.3231 (66.8292, 50.9644) -> (73.5687, 55.2013) ccw
  ellipse E11 centre (73.5541, 74.9499) end of major axis (45.2119, 101.6505) minor radius 15.3224 (47.8294, 82.593) -> (52.9403, 74.9433) ccw
  ellipse E12 centre (73.5541, 74.9499) end of major axis (46.1113, 101.2061) minor radius 14.1544 (48.9856, 82.9904) -> (53.7136, 75.9402) ccw
  ellipse E13 centre (73.5541, 74.9499) end of major axis (45.9927, 49.2842) minor radius 14.2819 (66.2633, 51.9614) -> (72.6054, 55.8854) ccw
  arc A81 (48.9856, 82.9904) -> (45.8108, 89.5938) centre (47.2318, 86.2121) ccw
  arc A82 (66.2633, 51.9614) -> (59.6702, 48.9143) centre (63.3353, 49.6403) ccw
  ellipse E14 centre (73.5541, 74.9499) end of major axis (101.9248, 101.7351) minor radius 15.3231 (79.4501, 98.4689) -> (73.5395, 94.6985) ccw
  ellipse E15 centre (73.5541, 74.9499) end of major axis (45.9927, 49.2842) minor radius 14.2819 (80.1151, 97.5331) -> (74.5028, 94.0144) ccw
  arc A83 (86.1677, 101.7647) -> (79.4501, 98.4689) centre (82.7963, 100.1425) ccw
  ellipse E16 centre (73.5541, 74.9499) end of major axis (46.1113, 101.2061) minor radius 14.1544 (98.501, 66.2464) -> (93.3946, 73.9596) ccw
  ellipse E17 centre (73.5541, 74.9499) end of major axis (45.2119, 101.6505) minor radius 15.3224 (99.6639, 66.6182) -> (94.1679, 74.9565) ccw
  arc A84 (98.501, 66.2464) -> (101.5578, 59.5728) centre (100.186, 62.9813) ccw
  ellipse E18 centre (73.5541, 74.9499) end of major axis (46.1113, 101.2061) minor radius 14.1544 (54.3116, 75.1605) -> (73.5195, 56.5237) ccw
  ellipse E19 centre (73.5541, 74.9499) end of major axis (45.2119, 101.6505) minor radius 15.3224 (53.538, 74.1705) -> (72.6054, 55.8854) ccw
  ellipse E20 centre (73.5541, 74.9499) end of major axis (101.9248, 101.7351) minor radius 15.3231 (52.9403, 74.9433) -> (60.0832, 47.8007) ccw
  ellipse E21 centre (73.5541, 74.9499) end of major axis (45.9927, 49.2842) minor radius 14.2819 (53.538, 74.1705) -> (59.6702, 48.9143) ccw
  ellipse E22 centre (73.5541, 74.9499) end of major axis (45.9927, 49.2842) minor radius 14.2819 (73.5195, 56.5237) -> (92.7965, 74.7393) ccw
  ellipse E23 centre (73.5541, 74.9499) end of major axis (46.1113, 101.2061) minor radius 14.1544 (74.4665, 55.8405) -> (101.5578, 59.5728) ccw
  ellipse E24 centre (73.5541, 74.9499) end of major axis (45.2119, 101.6505) minor radius 15.3224 (73.5687, 55.2013) -> (102.5659, 60.1821) ccw
  ellipse E25 centre (73.5541, 74.9499) end of major axis (101.9248, 101.7351) minor radius 15.3231 (74.4665, 55.8405) -> (93.3946, 73.9596) ccw
  ellipse E26 centre (73.5541, 74.9499) end of major axis (101.9248, 101.7351) minor radius 15.3231 (72.6417, 94.0592) -> (53.7136, 75.9402) ccw
  ellipse E27 centre (73.5541, 74.9499) end of major axis (46.1113, 101.2061) minor radius 14.1544 (72.6417, 94.0592) -> (45.8108, 89.5938) ccw
  ellipse E28 centre (73.5541, 74.9499) end of major axis (45.2119, 101.6505) minor radius 15.3224 (73.5395, 94.6985) -> (44.8092, 88.9664) ccw
  ellipse E29 centre (73.5541, 74.9499) end of major axis (45.9927, 49.2842) minor radius 14.2819 (73.5887, 93.3761) -> (54.3116, 75.1605) ccw
  ellipse E30 centre (73.5541, 74.9499) end of major axis (101.9248, 101.7351) minor radius 15.3231 (94.1679, 74.9565) -> (86.1677, 101.7647) ccw
  ellipse E31 centre (73.5541, 74.9499) end of major axis (45.9927, 49.2842) minor radius 14.2819 (93.5702, 75.7292) -> (86.506, 100.628) ccw
  ellipse E32 centre (73.5541, 74.9499) end of major axis (46.1113, 101.2061) minor radius 14.1544 (92.7965, 74.7393) -> (73.5887, 93.3761) ccw
  ellipse E33 centre (73.5541, 74.9499) end of major axis (45.2119, 101.6505) minor radius 15.3224 (93.5702, 75.7292) -> (74.5028, 94.0144) ccw
  arc A85 (19.9149, 57.9493) -> (22.1192, 52.1379) centre (21.0542, 55.0576) ccw
  line L295 (29.9758, 46.7567) -> (31.0379, 45.2538)
  line L296 (31.0379, 45.2538) -> (24.7857, 41.1658)
  line L297 (24.7857, 41.1658) -> (23.7837, 42.7288)
  line L298 (23.7837, 42.7288) -> (29.9758, 46.7567)
  line L299 (220.3273, 107.9931) -> (430.6798, 107.9931) construction
  line L300 (430.6798, 107.9931) -> (430.6798, 74.9704) construction
  line L301 (430.6798, 74.9704) -> (220.3273, 74.9704) construction
  line L302 (220.3273, 74.9704) -> (220.3273, 107.9931) construction
  line L303 (156.501, 51.087) -> (405.9499, 51.087) construction
  line L304 (405.9499, 51.087) -> (405.9499, 29.7742) construction
  line L305 (405.9499, 29.7742) -> (156.501, 29.7742) construction
  line L306 (156.501, 29.7742) -> (156.501, 51.087) construction
  line L307 (0, 147) -> (0, 3) projected
  arc A86 (0, 3) -> (3, 0) centre (3, 3) ccw projected
  line L308 (3, 0) -> (447, 0) projected
  arc A87 (447, 0) -> (450, 3) centre (447, 3) ccw projected
  line L309 (450, 3) -> (450, 147) projected
  arc A88 (450, 147) -> (447, 150) centre (447, 147) ccw projected
  line L310 (447, 150) -> (3, 150) projected
  arc A89 (3, 150) -> (0, 147) centre (3, 147) ccw projected
  point P0 (156.501, 124.8569)
  point P1 (430.6798, 124.8569)
  point P2 (156.501, 91.4818)
  point P3 (220.3273, 91.4818)
  point P4 (156.501, 91.4818)
properties part number "hanabi plate"
